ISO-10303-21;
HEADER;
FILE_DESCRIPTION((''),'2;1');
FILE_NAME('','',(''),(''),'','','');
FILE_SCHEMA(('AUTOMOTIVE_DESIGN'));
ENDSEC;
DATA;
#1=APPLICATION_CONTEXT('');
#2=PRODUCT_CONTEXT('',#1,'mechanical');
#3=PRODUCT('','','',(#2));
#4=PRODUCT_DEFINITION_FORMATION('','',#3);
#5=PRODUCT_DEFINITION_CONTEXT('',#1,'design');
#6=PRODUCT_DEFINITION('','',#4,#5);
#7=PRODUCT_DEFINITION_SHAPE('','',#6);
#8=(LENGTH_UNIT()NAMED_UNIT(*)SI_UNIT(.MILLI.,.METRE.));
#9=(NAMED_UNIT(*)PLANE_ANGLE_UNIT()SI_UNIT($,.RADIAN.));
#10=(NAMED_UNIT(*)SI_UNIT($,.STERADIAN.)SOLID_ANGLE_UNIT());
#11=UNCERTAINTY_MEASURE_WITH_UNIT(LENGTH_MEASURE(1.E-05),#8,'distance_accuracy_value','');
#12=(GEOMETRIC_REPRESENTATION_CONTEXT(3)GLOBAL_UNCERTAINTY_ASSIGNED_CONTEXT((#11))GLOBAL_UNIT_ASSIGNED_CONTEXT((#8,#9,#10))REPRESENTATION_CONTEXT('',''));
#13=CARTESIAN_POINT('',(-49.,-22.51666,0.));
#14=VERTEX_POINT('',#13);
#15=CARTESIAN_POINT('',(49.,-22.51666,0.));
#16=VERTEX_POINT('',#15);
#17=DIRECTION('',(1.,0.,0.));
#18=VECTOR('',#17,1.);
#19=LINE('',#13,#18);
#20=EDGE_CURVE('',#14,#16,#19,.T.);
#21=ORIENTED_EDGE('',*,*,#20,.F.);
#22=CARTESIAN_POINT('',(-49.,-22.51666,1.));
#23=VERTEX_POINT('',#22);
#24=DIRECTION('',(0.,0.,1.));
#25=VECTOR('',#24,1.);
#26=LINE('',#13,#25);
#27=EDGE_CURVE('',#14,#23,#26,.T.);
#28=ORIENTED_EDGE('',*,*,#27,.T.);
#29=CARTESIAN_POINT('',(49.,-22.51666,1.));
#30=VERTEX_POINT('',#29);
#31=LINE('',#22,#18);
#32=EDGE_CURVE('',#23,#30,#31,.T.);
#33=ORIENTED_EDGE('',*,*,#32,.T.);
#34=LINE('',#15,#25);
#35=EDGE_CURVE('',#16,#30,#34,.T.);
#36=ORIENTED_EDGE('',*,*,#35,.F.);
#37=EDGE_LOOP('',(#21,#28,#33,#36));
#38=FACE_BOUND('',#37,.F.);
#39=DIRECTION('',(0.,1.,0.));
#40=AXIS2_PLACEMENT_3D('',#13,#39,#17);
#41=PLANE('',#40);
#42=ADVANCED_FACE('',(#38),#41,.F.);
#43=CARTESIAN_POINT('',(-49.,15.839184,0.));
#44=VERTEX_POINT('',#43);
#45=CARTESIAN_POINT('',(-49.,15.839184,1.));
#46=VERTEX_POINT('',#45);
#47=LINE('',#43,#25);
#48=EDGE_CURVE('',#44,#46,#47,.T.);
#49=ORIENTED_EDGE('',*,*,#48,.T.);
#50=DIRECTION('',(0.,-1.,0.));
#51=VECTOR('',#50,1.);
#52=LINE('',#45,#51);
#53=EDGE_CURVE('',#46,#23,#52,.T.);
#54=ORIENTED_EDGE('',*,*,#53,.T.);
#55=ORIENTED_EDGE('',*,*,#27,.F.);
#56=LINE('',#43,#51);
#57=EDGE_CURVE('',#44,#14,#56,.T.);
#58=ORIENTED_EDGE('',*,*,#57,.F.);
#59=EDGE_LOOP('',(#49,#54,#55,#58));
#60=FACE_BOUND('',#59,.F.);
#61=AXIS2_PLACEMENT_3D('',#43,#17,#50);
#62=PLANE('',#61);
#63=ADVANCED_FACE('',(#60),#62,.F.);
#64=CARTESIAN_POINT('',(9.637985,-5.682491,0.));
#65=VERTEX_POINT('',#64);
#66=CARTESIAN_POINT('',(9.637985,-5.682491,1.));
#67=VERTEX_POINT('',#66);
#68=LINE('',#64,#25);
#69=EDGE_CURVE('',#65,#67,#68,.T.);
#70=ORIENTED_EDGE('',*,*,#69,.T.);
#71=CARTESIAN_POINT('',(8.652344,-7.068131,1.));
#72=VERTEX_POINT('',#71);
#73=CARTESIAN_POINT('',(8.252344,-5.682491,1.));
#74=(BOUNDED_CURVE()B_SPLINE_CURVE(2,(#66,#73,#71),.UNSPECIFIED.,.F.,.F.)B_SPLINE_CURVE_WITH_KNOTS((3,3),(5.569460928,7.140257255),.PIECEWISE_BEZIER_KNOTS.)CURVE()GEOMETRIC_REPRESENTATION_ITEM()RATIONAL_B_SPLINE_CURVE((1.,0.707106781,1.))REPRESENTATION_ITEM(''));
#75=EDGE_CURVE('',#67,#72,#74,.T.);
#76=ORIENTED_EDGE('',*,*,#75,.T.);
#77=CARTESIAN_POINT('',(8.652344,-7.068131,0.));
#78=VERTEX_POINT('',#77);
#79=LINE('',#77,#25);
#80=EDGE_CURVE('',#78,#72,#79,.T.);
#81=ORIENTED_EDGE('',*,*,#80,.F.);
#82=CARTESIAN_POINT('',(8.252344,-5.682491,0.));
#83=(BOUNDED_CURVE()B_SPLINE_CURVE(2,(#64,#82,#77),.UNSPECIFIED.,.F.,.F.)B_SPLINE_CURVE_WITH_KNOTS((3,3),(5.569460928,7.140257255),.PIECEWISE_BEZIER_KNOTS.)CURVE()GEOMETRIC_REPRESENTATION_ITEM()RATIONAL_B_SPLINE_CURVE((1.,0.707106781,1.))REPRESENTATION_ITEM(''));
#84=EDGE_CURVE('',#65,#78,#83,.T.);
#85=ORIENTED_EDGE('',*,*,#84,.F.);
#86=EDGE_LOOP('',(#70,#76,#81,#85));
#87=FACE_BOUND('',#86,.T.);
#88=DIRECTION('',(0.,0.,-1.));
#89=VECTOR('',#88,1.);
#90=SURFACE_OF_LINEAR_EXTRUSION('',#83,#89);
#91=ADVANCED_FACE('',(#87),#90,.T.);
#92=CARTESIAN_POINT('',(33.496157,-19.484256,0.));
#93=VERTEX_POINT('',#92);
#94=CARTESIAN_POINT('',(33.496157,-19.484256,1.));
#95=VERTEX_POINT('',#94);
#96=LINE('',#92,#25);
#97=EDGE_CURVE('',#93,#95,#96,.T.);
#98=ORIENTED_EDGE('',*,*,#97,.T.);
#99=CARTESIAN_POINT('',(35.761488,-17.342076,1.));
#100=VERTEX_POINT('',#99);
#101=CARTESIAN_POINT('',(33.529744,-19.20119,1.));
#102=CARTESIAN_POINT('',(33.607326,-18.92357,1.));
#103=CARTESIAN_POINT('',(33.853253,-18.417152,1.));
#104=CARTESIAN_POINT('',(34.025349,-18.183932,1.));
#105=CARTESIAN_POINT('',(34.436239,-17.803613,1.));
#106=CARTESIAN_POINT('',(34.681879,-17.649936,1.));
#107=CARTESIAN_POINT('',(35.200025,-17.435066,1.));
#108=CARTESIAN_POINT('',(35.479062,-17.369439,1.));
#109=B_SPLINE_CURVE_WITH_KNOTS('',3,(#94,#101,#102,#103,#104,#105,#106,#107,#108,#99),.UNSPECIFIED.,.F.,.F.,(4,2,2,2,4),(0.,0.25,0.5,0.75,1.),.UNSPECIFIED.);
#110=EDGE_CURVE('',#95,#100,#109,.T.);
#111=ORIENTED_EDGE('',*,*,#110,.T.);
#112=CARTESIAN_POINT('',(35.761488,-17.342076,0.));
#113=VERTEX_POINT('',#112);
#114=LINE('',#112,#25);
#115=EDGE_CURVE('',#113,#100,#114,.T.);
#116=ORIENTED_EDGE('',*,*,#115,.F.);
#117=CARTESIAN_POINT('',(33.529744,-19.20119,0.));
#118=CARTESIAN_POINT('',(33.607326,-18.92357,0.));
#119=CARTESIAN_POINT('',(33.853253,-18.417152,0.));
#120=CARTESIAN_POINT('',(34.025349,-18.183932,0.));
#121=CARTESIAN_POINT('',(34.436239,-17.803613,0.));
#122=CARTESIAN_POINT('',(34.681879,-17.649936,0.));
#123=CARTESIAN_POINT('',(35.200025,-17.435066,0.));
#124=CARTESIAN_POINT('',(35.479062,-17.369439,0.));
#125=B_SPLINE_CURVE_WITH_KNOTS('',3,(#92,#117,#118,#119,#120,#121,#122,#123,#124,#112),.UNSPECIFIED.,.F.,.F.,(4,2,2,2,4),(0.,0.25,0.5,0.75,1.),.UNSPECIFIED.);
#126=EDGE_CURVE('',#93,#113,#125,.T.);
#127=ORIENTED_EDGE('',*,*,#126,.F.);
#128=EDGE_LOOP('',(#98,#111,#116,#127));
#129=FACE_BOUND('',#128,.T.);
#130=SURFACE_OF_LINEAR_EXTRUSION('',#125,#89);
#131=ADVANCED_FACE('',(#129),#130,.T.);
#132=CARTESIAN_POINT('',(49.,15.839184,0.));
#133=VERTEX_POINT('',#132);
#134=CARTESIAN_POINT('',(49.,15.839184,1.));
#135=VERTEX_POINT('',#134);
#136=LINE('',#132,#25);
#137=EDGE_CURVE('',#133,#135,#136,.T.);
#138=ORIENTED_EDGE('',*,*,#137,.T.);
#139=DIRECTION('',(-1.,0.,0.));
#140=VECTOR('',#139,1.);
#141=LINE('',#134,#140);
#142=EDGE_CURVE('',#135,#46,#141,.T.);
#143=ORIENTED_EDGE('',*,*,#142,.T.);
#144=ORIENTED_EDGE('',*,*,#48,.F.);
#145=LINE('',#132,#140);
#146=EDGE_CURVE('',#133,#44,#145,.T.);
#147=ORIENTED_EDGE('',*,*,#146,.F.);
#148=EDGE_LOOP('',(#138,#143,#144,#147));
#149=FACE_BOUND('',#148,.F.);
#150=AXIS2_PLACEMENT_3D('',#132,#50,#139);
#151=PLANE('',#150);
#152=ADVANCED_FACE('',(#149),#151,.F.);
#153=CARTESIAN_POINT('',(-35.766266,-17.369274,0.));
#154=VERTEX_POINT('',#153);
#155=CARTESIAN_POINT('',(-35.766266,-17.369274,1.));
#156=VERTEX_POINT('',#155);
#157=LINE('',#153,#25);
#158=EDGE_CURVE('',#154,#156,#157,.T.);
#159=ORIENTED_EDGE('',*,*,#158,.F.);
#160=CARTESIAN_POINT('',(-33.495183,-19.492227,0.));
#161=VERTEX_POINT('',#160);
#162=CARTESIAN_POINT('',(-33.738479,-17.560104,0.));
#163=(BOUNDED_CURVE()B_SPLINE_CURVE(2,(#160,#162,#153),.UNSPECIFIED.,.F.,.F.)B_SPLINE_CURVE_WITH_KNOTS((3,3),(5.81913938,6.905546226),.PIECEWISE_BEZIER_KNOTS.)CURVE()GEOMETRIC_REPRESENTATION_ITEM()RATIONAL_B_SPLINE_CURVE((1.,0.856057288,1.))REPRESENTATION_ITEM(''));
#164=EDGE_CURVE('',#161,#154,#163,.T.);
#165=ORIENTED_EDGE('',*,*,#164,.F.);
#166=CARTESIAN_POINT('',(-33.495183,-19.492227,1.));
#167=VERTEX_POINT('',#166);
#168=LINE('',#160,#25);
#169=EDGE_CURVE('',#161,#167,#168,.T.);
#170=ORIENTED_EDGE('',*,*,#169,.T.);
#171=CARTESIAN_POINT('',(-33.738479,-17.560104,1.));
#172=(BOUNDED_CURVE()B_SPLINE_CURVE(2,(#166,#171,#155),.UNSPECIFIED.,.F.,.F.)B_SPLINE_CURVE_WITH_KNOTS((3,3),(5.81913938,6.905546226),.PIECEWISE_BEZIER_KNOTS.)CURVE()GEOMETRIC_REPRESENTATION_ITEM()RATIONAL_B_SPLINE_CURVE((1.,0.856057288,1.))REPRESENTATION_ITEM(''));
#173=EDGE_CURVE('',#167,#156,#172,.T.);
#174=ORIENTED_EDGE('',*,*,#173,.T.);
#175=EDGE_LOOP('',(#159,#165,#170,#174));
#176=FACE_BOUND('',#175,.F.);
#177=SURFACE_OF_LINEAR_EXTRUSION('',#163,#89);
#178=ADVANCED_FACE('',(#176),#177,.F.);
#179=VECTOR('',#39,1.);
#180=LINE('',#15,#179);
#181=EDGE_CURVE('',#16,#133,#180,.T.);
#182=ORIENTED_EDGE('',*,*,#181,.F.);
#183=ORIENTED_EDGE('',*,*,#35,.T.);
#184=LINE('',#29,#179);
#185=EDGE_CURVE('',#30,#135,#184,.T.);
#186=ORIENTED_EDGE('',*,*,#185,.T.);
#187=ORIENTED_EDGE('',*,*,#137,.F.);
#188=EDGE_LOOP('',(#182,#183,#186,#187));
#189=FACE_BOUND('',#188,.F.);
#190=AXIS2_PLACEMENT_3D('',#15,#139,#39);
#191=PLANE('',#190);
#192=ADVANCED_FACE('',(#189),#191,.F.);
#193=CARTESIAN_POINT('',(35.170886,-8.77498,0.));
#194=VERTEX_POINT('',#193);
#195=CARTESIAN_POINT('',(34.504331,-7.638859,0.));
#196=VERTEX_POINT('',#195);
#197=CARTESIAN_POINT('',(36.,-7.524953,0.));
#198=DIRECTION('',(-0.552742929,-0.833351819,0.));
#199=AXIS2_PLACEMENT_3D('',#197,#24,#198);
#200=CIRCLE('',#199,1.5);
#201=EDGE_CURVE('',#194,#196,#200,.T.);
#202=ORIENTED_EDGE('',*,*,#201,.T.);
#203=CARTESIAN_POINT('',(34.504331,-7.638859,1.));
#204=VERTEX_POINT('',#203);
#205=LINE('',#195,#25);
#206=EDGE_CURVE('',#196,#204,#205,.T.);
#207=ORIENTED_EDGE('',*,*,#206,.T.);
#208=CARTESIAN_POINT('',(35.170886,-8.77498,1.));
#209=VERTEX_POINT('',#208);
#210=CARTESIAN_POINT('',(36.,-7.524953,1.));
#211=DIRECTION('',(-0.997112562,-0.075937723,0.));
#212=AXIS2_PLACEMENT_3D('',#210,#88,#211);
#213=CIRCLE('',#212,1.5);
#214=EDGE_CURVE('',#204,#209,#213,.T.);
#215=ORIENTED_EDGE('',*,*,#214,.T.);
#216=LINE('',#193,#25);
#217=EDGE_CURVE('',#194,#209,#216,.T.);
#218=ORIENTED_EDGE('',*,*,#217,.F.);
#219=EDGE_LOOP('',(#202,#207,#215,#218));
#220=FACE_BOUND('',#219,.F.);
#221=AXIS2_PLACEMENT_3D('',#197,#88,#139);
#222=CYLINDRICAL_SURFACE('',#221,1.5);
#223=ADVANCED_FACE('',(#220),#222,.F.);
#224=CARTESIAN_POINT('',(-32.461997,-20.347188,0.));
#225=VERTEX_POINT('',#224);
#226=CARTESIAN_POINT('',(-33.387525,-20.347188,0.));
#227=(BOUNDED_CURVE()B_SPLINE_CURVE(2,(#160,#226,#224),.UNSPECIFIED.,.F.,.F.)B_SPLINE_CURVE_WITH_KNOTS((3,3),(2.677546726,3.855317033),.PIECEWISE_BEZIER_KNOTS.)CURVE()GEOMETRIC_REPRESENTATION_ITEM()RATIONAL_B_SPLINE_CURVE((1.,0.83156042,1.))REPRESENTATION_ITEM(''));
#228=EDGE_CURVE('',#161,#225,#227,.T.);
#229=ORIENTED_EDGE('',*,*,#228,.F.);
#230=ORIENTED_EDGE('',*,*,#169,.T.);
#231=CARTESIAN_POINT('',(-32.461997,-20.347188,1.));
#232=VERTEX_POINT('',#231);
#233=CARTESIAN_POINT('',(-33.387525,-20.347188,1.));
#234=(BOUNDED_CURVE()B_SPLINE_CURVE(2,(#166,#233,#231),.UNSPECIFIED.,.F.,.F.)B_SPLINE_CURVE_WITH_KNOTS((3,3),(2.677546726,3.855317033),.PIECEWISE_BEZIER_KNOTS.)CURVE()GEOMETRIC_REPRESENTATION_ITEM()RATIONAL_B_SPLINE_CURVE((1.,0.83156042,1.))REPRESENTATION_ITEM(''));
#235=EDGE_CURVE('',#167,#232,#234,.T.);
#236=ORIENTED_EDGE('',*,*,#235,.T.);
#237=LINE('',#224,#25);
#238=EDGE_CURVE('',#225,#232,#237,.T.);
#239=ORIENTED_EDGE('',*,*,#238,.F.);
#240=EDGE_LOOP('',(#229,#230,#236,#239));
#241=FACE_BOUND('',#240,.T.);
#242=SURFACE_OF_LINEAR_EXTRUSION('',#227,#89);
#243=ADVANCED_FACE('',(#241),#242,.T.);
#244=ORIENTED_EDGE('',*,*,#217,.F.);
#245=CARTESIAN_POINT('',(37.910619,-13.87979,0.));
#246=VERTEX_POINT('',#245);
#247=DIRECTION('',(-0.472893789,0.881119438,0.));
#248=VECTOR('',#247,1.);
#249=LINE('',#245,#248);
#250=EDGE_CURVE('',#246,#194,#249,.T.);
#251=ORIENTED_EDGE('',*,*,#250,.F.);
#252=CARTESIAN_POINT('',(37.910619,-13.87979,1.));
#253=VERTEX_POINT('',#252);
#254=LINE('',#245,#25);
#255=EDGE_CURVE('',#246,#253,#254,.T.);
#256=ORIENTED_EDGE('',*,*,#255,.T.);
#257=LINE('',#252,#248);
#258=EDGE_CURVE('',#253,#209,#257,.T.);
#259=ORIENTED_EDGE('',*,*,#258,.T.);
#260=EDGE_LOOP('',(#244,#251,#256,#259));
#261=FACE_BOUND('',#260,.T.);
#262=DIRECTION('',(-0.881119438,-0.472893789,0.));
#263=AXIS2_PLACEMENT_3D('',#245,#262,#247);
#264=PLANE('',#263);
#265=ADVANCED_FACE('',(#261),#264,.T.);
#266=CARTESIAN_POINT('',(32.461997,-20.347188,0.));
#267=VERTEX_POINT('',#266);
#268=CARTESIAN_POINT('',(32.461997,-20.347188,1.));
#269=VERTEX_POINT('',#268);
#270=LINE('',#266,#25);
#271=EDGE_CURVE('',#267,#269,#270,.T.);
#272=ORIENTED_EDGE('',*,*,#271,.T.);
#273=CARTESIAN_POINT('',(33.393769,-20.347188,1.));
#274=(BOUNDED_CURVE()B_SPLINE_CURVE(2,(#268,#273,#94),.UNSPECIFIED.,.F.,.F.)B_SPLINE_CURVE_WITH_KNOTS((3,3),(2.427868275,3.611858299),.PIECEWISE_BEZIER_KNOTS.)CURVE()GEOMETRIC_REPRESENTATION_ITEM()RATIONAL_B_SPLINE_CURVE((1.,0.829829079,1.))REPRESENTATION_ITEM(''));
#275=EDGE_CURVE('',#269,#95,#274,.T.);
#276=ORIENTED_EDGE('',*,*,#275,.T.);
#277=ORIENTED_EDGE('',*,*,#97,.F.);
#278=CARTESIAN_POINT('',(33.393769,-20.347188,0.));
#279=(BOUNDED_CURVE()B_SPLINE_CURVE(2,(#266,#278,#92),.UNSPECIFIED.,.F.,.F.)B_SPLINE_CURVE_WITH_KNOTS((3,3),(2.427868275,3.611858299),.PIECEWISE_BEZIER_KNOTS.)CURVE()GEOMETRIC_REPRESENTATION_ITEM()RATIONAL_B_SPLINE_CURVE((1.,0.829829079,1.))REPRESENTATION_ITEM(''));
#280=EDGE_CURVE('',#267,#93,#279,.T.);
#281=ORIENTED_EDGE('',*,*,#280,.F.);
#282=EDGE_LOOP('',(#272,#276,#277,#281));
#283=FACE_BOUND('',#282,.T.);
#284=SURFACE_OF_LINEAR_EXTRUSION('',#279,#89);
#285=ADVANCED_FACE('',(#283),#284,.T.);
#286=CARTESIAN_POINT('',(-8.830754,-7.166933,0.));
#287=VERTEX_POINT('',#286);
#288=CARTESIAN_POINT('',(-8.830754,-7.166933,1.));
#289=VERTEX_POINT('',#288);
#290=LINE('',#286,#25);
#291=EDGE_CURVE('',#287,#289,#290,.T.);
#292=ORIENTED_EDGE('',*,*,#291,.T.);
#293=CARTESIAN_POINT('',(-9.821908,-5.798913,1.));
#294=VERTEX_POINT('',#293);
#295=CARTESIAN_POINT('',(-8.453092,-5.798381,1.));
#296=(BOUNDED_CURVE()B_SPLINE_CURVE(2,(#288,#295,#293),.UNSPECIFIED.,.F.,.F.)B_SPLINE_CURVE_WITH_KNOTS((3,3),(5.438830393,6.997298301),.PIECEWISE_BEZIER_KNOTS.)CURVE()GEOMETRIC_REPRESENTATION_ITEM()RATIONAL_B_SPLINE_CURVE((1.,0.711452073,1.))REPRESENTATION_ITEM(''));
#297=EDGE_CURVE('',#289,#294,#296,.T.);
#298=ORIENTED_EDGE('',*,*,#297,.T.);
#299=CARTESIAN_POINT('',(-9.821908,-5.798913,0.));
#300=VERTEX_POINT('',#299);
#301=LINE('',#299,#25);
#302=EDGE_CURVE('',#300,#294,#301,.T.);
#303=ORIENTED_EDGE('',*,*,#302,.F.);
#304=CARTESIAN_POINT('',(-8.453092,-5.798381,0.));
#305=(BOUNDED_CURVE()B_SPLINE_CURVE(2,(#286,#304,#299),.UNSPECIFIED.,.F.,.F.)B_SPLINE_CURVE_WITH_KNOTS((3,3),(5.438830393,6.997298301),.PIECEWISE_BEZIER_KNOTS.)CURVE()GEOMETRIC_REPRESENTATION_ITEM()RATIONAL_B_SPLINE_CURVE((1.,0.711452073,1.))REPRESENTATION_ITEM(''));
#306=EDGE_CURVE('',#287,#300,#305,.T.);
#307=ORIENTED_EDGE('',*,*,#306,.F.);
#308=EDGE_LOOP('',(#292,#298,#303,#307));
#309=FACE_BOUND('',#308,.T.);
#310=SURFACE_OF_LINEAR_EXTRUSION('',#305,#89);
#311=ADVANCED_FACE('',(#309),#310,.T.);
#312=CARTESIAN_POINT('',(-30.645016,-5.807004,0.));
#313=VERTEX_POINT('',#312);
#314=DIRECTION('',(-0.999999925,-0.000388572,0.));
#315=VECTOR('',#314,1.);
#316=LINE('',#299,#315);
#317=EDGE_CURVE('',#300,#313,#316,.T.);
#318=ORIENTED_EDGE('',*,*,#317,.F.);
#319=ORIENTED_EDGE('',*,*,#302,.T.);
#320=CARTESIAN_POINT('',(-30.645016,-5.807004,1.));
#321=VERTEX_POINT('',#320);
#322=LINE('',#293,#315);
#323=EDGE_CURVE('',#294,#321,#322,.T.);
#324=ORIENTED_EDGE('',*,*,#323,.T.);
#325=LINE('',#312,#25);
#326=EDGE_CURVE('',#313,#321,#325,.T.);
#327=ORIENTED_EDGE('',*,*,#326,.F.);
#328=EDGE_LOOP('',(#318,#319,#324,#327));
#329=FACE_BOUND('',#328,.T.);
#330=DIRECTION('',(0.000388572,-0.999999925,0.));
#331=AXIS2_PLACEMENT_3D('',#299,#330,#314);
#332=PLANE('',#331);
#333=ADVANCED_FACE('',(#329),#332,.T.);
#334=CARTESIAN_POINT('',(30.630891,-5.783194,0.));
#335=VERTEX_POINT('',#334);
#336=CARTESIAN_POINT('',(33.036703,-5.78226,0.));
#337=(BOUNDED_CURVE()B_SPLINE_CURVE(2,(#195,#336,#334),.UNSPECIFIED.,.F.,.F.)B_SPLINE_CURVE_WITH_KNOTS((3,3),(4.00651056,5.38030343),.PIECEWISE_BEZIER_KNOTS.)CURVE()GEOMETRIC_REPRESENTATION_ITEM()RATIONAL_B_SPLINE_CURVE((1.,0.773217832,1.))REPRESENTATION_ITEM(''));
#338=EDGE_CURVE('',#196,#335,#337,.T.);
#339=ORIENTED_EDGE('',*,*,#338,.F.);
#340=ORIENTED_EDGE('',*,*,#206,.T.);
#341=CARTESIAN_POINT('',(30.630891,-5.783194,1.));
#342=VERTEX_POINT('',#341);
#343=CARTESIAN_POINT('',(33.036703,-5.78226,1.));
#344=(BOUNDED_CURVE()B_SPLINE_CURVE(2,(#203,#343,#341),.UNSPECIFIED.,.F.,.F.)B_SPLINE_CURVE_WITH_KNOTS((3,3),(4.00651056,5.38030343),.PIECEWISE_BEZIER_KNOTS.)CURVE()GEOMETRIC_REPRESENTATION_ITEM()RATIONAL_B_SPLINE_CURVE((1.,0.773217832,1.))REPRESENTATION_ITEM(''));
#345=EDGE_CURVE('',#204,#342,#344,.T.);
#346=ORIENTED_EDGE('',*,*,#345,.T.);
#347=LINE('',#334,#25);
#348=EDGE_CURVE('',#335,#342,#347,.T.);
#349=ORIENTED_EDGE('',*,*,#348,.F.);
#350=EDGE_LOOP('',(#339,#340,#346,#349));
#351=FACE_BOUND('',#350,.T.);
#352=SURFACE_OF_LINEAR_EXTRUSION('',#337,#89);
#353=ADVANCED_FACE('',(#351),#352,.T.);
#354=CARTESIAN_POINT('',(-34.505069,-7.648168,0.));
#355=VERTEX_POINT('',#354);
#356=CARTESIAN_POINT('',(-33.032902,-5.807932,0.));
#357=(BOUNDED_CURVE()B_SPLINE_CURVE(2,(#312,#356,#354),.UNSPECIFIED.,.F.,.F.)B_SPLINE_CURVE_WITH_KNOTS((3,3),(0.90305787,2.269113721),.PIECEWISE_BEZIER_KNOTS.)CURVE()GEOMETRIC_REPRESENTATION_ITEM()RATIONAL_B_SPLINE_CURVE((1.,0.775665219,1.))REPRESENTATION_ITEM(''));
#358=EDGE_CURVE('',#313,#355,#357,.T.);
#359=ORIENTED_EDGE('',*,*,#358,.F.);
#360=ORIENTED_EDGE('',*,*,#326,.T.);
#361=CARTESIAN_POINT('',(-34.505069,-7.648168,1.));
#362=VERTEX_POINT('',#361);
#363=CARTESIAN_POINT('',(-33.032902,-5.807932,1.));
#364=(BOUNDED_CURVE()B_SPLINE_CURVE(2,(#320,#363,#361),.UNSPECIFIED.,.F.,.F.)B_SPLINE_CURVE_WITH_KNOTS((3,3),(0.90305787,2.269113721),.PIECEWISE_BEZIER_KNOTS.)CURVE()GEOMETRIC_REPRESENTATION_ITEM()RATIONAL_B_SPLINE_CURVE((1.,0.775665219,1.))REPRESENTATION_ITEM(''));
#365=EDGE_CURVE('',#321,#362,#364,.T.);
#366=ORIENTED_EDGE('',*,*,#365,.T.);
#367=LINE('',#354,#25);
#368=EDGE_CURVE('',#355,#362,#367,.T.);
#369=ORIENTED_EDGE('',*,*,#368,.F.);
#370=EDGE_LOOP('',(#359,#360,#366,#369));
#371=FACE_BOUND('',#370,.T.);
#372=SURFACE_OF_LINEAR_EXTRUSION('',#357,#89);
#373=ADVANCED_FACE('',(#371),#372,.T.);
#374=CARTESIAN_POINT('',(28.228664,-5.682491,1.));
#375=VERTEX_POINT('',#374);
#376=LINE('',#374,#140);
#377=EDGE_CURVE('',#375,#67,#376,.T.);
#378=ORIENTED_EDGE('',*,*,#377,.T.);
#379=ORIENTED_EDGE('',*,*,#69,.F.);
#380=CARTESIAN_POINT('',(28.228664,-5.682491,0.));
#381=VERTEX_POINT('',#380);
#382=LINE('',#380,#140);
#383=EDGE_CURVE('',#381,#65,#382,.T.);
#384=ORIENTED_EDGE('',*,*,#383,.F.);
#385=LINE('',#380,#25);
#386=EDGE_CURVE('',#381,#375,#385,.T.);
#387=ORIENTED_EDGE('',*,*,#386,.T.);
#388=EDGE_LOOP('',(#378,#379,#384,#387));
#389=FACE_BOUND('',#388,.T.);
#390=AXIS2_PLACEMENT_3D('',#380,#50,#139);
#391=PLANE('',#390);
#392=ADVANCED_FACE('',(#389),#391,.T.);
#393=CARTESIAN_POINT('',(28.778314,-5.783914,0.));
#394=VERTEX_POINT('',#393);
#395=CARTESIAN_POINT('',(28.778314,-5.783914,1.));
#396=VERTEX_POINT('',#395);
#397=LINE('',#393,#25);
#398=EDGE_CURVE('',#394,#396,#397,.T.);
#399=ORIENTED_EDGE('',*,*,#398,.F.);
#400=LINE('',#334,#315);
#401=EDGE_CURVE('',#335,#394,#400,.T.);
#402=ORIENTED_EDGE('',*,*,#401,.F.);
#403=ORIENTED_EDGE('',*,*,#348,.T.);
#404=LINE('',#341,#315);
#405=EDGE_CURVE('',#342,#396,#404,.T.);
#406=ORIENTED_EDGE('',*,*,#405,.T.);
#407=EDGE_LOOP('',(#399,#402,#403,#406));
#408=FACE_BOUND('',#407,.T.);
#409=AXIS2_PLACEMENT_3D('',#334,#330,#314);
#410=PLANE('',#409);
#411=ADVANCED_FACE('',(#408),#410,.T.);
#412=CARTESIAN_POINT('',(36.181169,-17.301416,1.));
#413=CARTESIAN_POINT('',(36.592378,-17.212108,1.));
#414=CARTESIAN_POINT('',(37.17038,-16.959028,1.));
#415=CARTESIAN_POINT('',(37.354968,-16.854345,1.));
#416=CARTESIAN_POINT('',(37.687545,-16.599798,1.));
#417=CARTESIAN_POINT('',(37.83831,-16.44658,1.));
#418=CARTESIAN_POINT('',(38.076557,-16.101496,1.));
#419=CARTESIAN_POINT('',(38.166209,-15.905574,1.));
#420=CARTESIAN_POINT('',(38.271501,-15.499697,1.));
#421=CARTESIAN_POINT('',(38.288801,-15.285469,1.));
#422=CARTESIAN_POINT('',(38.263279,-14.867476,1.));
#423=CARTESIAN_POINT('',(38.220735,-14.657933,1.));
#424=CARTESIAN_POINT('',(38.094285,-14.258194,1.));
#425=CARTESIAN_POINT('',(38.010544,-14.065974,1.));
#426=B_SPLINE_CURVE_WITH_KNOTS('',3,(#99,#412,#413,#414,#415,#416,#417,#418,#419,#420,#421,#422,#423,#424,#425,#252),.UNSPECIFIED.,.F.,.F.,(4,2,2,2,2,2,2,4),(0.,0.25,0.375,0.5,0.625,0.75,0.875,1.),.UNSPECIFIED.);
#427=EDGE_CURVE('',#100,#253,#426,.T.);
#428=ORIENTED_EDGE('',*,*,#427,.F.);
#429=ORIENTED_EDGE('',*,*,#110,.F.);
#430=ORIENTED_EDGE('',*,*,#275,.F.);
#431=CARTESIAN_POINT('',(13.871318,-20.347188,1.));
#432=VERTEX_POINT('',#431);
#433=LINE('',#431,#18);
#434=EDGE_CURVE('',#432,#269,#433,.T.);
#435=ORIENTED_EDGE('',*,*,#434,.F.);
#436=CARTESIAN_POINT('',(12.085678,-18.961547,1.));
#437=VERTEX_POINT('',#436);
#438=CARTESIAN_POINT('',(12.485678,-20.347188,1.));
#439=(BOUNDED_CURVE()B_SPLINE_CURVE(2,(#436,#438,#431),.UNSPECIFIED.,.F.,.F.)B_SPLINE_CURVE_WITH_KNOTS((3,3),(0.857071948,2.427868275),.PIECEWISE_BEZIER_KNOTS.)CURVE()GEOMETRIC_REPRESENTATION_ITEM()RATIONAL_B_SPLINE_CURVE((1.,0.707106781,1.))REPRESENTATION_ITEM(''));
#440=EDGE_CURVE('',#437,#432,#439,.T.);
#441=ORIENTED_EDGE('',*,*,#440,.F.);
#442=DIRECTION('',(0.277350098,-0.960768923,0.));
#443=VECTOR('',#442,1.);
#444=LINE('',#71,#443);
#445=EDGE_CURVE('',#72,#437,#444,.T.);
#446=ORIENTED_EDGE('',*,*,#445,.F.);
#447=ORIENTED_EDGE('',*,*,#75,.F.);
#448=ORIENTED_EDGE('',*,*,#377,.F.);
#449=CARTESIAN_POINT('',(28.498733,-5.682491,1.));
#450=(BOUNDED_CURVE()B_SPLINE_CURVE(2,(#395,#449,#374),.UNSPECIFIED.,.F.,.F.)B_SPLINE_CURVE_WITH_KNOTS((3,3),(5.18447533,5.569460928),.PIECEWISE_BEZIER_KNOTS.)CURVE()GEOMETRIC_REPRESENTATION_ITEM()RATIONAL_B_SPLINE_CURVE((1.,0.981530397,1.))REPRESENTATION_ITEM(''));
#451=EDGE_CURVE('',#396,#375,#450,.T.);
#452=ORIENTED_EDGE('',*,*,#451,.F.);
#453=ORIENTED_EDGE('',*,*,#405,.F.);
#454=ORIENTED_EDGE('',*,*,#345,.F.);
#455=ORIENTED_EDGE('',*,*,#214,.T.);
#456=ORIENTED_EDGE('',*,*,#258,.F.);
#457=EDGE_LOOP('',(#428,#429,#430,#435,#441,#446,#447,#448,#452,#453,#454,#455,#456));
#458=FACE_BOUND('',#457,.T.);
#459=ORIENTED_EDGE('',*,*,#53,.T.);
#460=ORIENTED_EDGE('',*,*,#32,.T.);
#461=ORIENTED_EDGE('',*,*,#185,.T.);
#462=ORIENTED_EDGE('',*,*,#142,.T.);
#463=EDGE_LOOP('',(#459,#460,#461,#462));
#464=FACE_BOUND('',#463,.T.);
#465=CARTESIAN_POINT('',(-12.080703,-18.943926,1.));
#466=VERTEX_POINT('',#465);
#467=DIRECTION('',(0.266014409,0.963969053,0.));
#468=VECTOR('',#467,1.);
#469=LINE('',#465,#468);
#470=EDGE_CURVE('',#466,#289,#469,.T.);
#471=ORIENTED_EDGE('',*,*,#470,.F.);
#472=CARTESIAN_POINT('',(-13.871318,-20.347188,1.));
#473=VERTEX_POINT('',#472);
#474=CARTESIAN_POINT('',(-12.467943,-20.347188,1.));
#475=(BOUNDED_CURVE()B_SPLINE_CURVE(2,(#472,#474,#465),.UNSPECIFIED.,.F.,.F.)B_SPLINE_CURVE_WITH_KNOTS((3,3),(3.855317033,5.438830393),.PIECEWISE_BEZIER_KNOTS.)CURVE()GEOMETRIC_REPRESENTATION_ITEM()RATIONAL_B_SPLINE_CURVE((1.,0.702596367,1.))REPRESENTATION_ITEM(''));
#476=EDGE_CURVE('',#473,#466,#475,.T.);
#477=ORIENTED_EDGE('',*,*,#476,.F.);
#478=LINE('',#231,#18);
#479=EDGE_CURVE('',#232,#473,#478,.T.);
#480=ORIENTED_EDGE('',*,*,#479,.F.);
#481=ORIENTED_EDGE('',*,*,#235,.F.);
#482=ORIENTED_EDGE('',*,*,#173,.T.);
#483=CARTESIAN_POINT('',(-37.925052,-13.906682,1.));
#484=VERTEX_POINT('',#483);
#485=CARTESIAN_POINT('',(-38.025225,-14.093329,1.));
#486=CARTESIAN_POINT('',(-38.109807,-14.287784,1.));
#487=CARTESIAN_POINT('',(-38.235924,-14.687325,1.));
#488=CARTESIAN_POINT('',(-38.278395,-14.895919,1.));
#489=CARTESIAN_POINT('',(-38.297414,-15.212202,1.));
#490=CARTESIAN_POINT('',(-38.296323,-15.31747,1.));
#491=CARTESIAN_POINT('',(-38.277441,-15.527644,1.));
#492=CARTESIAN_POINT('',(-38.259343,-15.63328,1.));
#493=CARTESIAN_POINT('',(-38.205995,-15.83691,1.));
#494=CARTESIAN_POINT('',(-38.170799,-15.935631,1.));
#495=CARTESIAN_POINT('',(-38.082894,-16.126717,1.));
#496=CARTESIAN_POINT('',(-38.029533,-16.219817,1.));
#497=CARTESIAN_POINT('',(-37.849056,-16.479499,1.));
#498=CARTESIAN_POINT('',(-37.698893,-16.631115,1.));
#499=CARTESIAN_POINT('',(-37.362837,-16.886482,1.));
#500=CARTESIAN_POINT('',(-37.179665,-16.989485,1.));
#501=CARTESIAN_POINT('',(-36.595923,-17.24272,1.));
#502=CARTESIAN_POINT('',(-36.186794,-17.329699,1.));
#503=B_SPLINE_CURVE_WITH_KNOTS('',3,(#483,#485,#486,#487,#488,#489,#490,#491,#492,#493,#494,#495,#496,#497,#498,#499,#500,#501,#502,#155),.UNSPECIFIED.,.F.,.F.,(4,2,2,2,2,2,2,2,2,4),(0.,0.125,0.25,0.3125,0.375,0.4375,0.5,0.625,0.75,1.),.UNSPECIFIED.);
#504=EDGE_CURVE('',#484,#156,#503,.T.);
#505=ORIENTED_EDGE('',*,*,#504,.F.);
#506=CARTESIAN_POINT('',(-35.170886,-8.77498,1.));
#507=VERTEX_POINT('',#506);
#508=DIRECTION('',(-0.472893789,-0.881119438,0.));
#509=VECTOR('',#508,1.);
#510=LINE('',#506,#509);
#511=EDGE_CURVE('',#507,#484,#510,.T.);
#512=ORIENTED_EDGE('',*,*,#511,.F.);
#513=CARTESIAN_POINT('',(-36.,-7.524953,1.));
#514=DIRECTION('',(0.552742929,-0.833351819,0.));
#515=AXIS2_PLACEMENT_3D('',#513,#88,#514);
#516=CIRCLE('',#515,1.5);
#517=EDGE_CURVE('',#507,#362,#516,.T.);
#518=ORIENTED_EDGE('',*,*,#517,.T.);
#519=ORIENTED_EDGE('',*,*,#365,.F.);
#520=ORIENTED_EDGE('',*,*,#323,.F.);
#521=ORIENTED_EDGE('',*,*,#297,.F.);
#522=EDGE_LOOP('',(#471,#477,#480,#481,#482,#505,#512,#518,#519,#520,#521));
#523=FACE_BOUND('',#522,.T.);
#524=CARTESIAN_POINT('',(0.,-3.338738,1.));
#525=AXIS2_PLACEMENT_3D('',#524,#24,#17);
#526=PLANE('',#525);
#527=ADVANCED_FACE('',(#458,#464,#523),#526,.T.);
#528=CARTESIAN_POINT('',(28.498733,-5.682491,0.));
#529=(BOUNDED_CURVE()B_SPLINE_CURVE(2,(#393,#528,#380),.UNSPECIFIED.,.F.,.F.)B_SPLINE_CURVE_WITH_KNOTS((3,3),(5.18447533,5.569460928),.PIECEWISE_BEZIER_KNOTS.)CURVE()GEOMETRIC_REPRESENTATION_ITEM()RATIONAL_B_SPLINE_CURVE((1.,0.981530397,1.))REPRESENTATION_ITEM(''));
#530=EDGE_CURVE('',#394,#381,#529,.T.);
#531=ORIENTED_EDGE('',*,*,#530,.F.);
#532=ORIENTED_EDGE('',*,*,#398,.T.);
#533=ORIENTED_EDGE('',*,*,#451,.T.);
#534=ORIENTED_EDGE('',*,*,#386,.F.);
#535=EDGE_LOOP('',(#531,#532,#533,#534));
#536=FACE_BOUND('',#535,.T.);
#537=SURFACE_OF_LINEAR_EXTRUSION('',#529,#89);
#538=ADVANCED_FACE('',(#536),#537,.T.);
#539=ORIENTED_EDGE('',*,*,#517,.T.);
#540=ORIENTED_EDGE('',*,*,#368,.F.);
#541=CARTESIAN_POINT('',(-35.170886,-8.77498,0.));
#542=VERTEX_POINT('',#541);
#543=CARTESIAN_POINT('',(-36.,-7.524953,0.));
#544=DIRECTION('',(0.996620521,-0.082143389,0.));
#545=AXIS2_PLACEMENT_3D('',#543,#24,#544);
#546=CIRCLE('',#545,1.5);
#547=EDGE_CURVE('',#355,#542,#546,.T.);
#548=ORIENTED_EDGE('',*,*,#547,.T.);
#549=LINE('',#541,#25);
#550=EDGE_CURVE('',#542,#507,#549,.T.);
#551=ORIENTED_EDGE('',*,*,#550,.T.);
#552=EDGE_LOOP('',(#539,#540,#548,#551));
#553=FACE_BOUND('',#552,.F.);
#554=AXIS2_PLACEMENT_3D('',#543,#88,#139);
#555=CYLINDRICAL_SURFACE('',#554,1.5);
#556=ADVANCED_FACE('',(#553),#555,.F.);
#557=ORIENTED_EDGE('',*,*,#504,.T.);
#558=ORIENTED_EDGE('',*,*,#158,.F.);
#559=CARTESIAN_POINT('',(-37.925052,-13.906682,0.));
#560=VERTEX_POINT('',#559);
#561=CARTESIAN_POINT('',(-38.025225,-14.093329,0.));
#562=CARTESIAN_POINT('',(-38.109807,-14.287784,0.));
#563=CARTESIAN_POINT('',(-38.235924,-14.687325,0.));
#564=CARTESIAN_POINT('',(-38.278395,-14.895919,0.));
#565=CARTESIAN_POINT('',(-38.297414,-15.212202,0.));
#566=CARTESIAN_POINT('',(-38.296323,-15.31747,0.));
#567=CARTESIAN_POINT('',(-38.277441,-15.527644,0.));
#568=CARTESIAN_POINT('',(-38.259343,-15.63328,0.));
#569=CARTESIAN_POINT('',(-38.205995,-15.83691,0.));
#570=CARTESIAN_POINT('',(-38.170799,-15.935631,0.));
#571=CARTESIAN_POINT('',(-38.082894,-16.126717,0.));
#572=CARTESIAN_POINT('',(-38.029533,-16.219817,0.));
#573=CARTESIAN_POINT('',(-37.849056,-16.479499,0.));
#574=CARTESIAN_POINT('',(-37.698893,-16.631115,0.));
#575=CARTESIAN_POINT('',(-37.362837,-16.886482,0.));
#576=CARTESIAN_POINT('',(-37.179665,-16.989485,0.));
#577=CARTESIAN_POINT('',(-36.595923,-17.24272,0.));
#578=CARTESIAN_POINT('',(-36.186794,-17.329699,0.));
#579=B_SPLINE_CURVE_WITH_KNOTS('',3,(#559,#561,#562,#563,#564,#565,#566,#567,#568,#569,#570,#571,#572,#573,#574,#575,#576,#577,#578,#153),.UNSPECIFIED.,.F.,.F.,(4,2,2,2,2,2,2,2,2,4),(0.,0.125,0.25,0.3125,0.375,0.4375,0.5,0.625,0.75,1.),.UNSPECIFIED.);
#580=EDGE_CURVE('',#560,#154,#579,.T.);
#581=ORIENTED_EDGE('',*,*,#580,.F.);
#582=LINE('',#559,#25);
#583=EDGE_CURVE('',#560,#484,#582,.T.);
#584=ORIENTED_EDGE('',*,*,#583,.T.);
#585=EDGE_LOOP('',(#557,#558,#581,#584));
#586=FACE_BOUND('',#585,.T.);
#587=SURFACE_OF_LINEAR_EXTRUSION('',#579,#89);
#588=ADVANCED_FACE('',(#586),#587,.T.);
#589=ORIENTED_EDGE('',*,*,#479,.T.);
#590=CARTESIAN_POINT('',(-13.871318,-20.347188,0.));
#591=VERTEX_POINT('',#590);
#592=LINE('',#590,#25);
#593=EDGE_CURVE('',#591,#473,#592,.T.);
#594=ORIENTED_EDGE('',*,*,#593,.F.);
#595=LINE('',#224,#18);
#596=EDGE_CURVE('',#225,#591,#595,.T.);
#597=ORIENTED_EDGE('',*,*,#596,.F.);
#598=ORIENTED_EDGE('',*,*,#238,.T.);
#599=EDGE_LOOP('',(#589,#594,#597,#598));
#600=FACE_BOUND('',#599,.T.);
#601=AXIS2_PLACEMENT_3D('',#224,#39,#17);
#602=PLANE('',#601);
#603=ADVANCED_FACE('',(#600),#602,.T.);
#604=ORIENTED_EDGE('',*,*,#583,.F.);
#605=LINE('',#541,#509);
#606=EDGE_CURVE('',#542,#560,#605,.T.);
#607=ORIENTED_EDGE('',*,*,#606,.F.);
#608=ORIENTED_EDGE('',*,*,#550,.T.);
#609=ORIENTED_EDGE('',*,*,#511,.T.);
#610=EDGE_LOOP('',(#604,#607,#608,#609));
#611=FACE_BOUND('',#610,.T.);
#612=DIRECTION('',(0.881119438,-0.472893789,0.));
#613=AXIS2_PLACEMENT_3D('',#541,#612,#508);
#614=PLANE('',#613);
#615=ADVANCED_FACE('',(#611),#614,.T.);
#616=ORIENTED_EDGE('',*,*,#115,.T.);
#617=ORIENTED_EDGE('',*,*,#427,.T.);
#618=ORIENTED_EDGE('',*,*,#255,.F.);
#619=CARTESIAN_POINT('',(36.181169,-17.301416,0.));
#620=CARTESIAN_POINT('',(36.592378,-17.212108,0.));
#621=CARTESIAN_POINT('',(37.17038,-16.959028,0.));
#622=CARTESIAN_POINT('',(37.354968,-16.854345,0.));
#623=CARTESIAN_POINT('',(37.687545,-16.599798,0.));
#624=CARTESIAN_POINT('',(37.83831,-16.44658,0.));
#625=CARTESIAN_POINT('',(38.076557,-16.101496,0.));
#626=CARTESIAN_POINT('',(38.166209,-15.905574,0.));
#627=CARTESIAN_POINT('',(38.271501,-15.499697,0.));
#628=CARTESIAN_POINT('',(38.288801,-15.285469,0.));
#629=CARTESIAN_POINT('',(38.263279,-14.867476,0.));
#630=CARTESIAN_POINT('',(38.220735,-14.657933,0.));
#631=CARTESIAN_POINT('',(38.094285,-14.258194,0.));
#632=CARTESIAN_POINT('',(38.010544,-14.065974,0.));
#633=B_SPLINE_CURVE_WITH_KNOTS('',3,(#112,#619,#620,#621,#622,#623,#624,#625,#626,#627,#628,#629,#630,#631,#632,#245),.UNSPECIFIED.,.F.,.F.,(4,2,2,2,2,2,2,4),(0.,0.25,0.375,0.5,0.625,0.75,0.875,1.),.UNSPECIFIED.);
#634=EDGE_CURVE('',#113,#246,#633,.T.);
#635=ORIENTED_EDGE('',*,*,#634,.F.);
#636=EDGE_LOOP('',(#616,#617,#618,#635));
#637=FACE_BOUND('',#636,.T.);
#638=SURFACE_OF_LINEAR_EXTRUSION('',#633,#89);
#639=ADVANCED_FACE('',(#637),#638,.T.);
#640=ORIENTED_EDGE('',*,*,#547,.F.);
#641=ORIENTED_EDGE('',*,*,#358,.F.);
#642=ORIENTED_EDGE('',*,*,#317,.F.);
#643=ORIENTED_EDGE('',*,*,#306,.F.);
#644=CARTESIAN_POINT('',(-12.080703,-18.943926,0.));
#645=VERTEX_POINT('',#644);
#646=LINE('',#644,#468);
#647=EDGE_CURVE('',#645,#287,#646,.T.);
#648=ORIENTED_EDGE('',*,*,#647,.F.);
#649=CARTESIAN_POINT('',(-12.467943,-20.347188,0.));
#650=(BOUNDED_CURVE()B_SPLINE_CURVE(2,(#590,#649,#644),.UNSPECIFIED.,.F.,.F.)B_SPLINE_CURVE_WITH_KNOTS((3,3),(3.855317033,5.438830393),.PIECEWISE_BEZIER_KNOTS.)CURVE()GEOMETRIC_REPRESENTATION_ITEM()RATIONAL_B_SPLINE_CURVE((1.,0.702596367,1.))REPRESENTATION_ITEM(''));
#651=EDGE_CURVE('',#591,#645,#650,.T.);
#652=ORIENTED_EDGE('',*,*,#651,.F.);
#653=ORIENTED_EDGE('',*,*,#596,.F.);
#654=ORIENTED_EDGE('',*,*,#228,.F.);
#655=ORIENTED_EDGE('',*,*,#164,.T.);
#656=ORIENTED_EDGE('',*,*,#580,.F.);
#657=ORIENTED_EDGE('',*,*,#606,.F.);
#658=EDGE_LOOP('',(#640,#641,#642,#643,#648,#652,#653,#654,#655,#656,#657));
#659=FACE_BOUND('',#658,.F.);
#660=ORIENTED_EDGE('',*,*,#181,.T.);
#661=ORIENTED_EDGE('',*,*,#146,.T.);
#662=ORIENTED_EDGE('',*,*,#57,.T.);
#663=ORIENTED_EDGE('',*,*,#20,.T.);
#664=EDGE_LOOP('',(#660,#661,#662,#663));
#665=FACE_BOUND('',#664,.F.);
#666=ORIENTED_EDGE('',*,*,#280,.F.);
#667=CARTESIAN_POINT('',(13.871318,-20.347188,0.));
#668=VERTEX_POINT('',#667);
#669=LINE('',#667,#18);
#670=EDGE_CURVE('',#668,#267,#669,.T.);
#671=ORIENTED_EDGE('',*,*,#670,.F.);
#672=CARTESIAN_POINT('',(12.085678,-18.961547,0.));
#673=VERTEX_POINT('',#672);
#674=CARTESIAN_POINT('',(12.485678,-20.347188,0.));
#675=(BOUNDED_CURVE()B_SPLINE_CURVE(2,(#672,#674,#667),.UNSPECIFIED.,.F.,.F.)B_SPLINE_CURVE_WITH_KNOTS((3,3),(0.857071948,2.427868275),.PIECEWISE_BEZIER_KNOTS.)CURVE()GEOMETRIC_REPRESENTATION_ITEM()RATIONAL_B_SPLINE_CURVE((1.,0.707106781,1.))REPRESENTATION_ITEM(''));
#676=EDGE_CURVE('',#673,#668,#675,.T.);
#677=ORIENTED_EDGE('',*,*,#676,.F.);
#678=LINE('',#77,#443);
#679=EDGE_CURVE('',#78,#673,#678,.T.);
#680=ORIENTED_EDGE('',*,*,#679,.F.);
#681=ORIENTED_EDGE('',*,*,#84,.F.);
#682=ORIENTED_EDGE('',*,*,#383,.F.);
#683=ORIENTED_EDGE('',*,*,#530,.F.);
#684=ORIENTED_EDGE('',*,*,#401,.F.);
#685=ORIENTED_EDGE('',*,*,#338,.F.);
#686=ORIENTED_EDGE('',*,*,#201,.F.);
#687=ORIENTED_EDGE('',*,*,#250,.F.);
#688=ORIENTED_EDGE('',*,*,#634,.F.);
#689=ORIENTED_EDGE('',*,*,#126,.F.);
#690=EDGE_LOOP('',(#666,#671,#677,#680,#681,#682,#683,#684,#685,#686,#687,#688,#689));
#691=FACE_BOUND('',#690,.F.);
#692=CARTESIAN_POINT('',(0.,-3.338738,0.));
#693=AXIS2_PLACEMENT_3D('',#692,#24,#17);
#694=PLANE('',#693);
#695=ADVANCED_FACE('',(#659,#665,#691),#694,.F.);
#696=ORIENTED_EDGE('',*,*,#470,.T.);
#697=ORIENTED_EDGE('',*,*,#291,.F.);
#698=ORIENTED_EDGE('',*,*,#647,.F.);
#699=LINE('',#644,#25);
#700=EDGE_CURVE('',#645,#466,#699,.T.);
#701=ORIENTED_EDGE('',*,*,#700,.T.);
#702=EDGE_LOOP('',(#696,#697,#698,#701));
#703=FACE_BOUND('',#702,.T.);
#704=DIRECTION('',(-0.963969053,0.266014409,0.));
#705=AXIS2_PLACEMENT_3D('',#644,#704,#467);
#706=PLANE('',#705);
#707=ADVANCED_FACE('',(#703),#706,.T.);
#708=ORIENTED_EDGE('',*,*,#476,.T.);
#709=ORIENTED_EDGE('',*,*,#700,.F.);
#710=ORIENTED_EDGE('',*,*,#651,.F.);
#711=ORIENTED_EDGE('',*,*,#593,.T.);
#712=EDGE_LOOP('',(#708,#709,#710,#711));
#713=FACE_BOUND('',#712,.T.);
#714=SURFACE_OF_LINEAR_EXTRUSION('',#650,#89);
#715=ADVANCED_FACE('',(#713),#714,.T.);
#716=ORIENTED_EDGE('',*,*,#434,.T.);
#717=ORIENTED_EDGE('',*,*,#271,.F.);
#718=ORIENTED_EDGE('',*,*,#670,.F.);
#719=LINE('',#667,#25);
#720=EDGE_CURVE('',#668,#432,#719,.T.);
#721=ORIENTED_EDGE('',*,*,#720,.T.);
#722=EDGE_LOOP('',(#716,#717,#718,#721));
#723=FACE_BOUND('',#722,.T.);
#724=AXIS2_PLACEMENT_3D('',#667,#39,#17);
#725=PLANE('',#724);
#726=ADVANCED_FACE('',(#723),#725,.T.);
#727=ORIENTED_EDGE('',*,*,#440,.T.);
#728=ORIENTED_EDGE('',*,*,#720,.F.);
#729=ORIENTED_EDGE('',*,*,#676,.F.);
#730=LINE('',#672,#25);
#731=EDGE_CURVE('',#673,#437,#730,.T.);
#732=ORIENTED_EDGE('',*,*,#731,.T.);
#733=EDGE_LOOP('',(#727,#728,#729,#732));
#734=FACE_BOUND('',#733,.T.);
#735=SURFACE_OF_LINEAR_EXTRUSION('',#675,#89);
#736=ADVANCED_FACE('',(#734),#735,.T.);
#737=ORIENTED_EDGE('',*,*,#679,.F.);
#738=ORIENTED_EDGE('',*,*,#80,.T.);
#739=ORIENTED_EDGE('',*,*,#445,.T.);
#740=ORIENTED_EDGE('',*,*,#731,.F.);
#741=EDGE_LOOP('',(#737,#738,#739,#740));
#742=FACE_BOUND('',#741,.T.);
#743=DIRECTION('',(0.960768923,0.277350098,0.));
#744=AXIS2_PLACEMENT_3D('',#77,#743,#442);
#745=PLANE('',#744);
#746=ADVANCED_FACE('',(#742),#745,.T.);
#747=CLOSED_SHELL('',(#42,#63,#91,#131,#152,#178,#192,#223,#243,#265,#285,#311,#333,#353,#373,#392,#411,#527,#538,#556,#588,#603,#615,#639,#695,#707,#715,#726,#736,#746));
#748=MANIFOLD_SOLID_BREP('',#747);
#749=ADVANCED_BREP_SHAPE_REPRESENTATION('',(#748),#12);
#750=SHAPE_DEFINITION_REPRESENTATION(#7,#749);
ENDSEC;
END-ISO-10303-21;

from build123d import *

# Parameters (mm, degrees)
EXTRUDE_1_DEPTH     = 1
CUT_EXTRUDE_4_DEPTH = 54.935146241
SKETCH_4_R          = 1.5
CUT_EXTRUDE_5_DEPTH = 54.935146241
CUT_EXTRUDE1_START  = -1
CUT_EXTRUDE1_DEPTH  = 1


with BuildPart() as part:
    # Эскиз1 → Бобышка-Вытянуть1 (new body)
    with BuildSketch(Plane.XY):
        Polygon((-49, 5.839183832), (-49, -22.516660498), (49, -22.516660498), (49, 5.839183832), (49, 15.839183832), (-49, 15.839183832), align=None)
    extrude(amount=EXTRUDE_1_DEPTH)

    # Эскиз2 → Вырез-Вытянуть4 (cut, through all)
    with BuildSketch(Plane(origin=(0, 0, 0), x_dir=(-1, 0, 0), z_dir=(0, 0, -1))):
        with BuildLine():
            Line((27.226146034, -9.122134253), (15.739905482, -9.122134253))
            ThreePointArc((15.739905482, -9.122134253), (15.10500819, -9.461530461), (14.917793913, -10.156681647))
            Line((14.917793913, -10.156681647), (17.442090319, -18.930924047))
            ThreePointArc((17.442090319, -18.930924047), (18.050493328, -19.909298147), (19.122649731, -20.331021695))
            Line((19.122649731, -20.331021695), (30.826843589, -20.331021695))
            ThreePointArc((30.826843589, -20.331021695), (31.459345435, -19.990005133), (31.64325008, -19.295361367))
            Line((31.64325008, -19.295361367), (29.100959308, -10.488607797))
            ThreePointArc((29.100959308, -10.488607797), (28.40806584, -9.469896887), (27.226146034, -9.122134253))
        make_face()
        with BuildLine():
            Line((-31.64325008, -19.295361367), (-29.100959308, -10.488607797))
            ThreePointArc((-29.100959308, -10.488607797), (-28.40806584, -9.469896887), (-27.226146034, -9.122134253))
            Line((-27.226146034, -9.122134253), (-15.739905482, -9.122134253))
            ThreePointArc((-15.739905482, -9.122134253), (-15.10500819, -9.461530461), (-14.917793913, -10.156681647))
            Line((-14.917793913, -10.156681647), (-17.442090319, -18.930924047))
            ThreePointArc((-17.442090319, -18.930924047), (-18.050493328, -19.909298147), (-19.122649731, -20.331021695))
            Line((-19.122649731, -20.331021695), (-30.826843589, -20.331021695))
            ThreePointArc((-30.826843589, -20.331021695), (-31.459345435, -19.990005133), (-31.64325008, -19.295361367))
        make_face()
    extrude(amount=-CUT_EXTRUDE_4_DEPTH, mode=Mode.SUBTRACT)

    # Эскиз4 → Вырез-Вытянуть5 (cut, through all)
    with BuildSketch(Plane(origin=(0, 0, 0), x_dir=(-1, 0, 0), z_dir=(0, 0, -1))):
        with Locations((36, -7.524952718)):
            Circle(SKETCH_4_R)
        with Locations((-36, -7.524952718)):
            Circle(SKETCH_4_R)
    extrude(amount=-CUT_EXTRUDE_5_DEPTH, mode=Mode.SUBTRACT)

    # Sketch3 → Cut-Extrude1 (cut)
    with BuildSketch(Plane.XY.offset(1).offset(CUT_EXTRUDE1_START)):
        with BuildLine():
            Line((8.652344227, -7.068131311), (12.085677561, -18.961546856))
            add(Edge.make_bspline(
                [(12.085677561, -18.961546856), (12.485677561, -20.347187502), (13.871318207, -20.347187502)],
                knots=[0.857071948, 0.857071948, 0.857071948, 2.427868275, 2.427868275, 2.427868275], degree=2, weights=[1, 0.707106781, 1]))
            Line((13.871318207, -20.347187502), (32.461996875, -20.347187502))
            add(Edge.make_bspline(
                [(32.461996875, -20.347187502), (33.393769403, -20.347187502), (33.496157418, -19.484255682)],
                knots=[2.427868275, 2.427868275, 2.427868275, 3.611858299, 3.611858299, 3.611858299], degree=2, weights=[1, 0.829829079, 1]))
            add(Edge.make_bspline(
                [(33.496157418, -19.484255682), (33.529743577, -19.201189685), (33.607326061, -18.923570429), (33.853252735, -18.417152493), (34.025349409, -18.183932413), (34.436238564, -17.8036127), (34.681879478, -17.649935655), (35.200024528, -17.435065661), (35.479061866, -17.369439067), (35.76148791, -17.34207634)],
                knots=[0, 0, 0, 0, 0.25, 0.25, 0.5, 0.5, 0.75, 0.75, 1, 1, 1, 1], degree=3))
            add(Edge.make_bspline(
                [(35.76148791, -17.34207634), (36.181169226, -17.301415694), (36.592378309, -17.212108423), (37.170380488, -16.959028015), (37.354968395, -16.854344533), (37.687544868, -16.599797528), (37.83830967, -16.446579579), (38.076557482, -16.101495837), (38.166209489, -15.905573827), (38.271501218, -15.499696694), (38.288800836, -15.285469364), (38.263278752, -14.867475934), (38.220734772, -14.657932914), (38.094284502, -14.258193956), (38.010543981, -14.065974434), (37.910619322, -13.879789794)],
                knots=[0, 0, 0, 0, 0.25, 0.25, 0.375, 0.375, 0.5, 0.5, 0.625, 0.625, 0.75, 0.75, 0.875, 0.875, 1, 1, 1, 1], degree=3))
            Line((37.910619322, -13.879789794), (35.170885606, -8.774980446))
            ThreePointArc((35.170885606, -8.774980446), (34.803783463, -8.429975368), (34.571610551, -7.982886756))
            ThreePointArc((34.571610551, -7.982886756), (34.527886571, -7.812845152), (34.504331156, -7.638859302))
            add(Edge.make_bspline(
                [(34.504331156, -7.638859302), (33.03670289, -5.782259548), (30.630891119, -5.783194379)],
                knots=[4.00651056, 4.00651056, 4.00651056, 5.38030343, 5.38030343, 5.38030343], degree=2, weights=[1, 0.773217832, 1]))
            Line((30.630891119, -5.783194379), (28.778313515, -5.783914238))
            add(Edge.make_bspline(
                [(28.778313515, -5.783914238), (28.498733332, -5.682490665), (28.228663541, -5.682490665)],
                knots=[5.18447533, 5.18447533, 5.18447533, 5.569460928, 5.569460928, 5.569460928], degree=2, weights=[1, 0.981530397, 1]))
            Line((28.228663541, -5.682490665), (9.637984874, -5.682490665))
            add(Edge.make_bspline(
                [(9.637984874, -5.682490665), (8.252344227, -5.682490665), (8.652344227, -7.068131311)],
                knots=[5.569460928, 5.569460928, 5.569460928, 7.140257255, 7.140257255, 7.140257255], degree=2, weights=[1, 0.707106781, 1]))
        make_face()
        with BuildLine():
            Line((-35.170885606, -8.774980446), (-37.925052204, -13.906681863))
            add(Edge.make_bspline(
                [(-37.925052204, -13.906681863), (-38.025225081, -14.093328995), (-38.109806595, -14.28778394), (-38.235924368, -14.687324932), (-38.278394681, -14.895918794), (-38.297414091, -15.212202185), (-38.296322734, -15.317469634), (-38.277441195, -15.527644209), (-38.259343447, -15.633280004), (-38.205994928, -15.836909506), (-38.170798519, -15.935630825), (-38.082894213, -16.126717018), (-38.029532599, -16.219817403), (-37.849055501, -16.479499021), (-37.698892817, -16.631115336), (-37.362837335, -16.886481906), (-37.179664999, -16.989484869), (-36.595923377, -17.242719775), (-36.186794345, -17.329699001), (-35.766265682, -17.369273893)],
                knots=[0, 0, 0, 0, 0.125, 0.125, 0.25, 0.25, 0.3125, 0.3125, 0.375, 0.375, 0.4375, 0.4375, 0.5, 0.5, 0.625, 0.625, 0.75, 0.75, 1, 1, 1, 1], degree=3))
            add(Edge.make_bspline(
                [(-33.495182661, -19.492227082), (-33.738478544, -17.560103824), (-35.766265682, -17.369273893)],
                knots=[5.81913938, 5.81913938, 5.81913938, 6.905546226, 6.905546226, 6.905546226], degree=2, weights=[1, 0.856057288, 1]))
            add(Edge.make_bspline(
                [(-33.495182661, -19.492227082), (-33.387524752, -20.347187502), (-32.461996875, -20.347187502)],
                knots=[2.677546726, 2.677546726, 2.677546726, 3.855317033, 3.855317033, 3.855317033], degree=2, weights=[1, 0.83156042, 1]))
            Line((-32.461996875, -20.347187502), (-13.871318207, -20.347187502))
            add(Edge.make_bspline(
                [(-13.871318207, -20.347187502), (-12.46794332, -20.347187502), (-12.080702928, -18.943926093)],
                knots=[3.855317033, 3.855317033, 3.855317033, 5.438830393, 5.438830393, 5.438830393], degree=2, weights=[1, 0.702596367, 1]))
            Line((-12.080702928, -18.943926093), (-8.83075434, -7.166932971))
            add(Edge.make_bspline(
                [(-8.83075434, -7.166932971), (-8.45309236, -5.798381309), (-9.82190813, -5.798913193)],
                knots=[5.438830393, 5.438830393, 5.438830393, 6.997298301, 6.997298301, 6.997298301], degree=2, weights=[1, 0.711452073, 1]))
            Line((-9.82190813, -5.798913193), (-30.645016113, -5.807004464))
            add(Edge.make_bspline(
                [(-30.645016113, -5.807004464), (-33.032902471, -5.807932329), (-34.505069218, -7.648167801)],
                knots=[0.90305787, 0.90305787, 0.90305787, 2.269113721, 2.269113721, 2.269113721], degree=2, weights=[1, 0.775665219, 1]))
            ThreePointArc((-34.505069218, -7.648167801), (-34.53118454, -7.829224215), (-34.579145022, -8.005755309))
            ThreePointArc((-34.579145022, -8.005755309), (-34.811085633, -8.43954696), (-35.170885606, -8.774980446))
        make_face()
    extrude(amount=CUT_EXTRUDE1_DEPTH, mode=Mode.SUBTRACT)


solid = part.part
